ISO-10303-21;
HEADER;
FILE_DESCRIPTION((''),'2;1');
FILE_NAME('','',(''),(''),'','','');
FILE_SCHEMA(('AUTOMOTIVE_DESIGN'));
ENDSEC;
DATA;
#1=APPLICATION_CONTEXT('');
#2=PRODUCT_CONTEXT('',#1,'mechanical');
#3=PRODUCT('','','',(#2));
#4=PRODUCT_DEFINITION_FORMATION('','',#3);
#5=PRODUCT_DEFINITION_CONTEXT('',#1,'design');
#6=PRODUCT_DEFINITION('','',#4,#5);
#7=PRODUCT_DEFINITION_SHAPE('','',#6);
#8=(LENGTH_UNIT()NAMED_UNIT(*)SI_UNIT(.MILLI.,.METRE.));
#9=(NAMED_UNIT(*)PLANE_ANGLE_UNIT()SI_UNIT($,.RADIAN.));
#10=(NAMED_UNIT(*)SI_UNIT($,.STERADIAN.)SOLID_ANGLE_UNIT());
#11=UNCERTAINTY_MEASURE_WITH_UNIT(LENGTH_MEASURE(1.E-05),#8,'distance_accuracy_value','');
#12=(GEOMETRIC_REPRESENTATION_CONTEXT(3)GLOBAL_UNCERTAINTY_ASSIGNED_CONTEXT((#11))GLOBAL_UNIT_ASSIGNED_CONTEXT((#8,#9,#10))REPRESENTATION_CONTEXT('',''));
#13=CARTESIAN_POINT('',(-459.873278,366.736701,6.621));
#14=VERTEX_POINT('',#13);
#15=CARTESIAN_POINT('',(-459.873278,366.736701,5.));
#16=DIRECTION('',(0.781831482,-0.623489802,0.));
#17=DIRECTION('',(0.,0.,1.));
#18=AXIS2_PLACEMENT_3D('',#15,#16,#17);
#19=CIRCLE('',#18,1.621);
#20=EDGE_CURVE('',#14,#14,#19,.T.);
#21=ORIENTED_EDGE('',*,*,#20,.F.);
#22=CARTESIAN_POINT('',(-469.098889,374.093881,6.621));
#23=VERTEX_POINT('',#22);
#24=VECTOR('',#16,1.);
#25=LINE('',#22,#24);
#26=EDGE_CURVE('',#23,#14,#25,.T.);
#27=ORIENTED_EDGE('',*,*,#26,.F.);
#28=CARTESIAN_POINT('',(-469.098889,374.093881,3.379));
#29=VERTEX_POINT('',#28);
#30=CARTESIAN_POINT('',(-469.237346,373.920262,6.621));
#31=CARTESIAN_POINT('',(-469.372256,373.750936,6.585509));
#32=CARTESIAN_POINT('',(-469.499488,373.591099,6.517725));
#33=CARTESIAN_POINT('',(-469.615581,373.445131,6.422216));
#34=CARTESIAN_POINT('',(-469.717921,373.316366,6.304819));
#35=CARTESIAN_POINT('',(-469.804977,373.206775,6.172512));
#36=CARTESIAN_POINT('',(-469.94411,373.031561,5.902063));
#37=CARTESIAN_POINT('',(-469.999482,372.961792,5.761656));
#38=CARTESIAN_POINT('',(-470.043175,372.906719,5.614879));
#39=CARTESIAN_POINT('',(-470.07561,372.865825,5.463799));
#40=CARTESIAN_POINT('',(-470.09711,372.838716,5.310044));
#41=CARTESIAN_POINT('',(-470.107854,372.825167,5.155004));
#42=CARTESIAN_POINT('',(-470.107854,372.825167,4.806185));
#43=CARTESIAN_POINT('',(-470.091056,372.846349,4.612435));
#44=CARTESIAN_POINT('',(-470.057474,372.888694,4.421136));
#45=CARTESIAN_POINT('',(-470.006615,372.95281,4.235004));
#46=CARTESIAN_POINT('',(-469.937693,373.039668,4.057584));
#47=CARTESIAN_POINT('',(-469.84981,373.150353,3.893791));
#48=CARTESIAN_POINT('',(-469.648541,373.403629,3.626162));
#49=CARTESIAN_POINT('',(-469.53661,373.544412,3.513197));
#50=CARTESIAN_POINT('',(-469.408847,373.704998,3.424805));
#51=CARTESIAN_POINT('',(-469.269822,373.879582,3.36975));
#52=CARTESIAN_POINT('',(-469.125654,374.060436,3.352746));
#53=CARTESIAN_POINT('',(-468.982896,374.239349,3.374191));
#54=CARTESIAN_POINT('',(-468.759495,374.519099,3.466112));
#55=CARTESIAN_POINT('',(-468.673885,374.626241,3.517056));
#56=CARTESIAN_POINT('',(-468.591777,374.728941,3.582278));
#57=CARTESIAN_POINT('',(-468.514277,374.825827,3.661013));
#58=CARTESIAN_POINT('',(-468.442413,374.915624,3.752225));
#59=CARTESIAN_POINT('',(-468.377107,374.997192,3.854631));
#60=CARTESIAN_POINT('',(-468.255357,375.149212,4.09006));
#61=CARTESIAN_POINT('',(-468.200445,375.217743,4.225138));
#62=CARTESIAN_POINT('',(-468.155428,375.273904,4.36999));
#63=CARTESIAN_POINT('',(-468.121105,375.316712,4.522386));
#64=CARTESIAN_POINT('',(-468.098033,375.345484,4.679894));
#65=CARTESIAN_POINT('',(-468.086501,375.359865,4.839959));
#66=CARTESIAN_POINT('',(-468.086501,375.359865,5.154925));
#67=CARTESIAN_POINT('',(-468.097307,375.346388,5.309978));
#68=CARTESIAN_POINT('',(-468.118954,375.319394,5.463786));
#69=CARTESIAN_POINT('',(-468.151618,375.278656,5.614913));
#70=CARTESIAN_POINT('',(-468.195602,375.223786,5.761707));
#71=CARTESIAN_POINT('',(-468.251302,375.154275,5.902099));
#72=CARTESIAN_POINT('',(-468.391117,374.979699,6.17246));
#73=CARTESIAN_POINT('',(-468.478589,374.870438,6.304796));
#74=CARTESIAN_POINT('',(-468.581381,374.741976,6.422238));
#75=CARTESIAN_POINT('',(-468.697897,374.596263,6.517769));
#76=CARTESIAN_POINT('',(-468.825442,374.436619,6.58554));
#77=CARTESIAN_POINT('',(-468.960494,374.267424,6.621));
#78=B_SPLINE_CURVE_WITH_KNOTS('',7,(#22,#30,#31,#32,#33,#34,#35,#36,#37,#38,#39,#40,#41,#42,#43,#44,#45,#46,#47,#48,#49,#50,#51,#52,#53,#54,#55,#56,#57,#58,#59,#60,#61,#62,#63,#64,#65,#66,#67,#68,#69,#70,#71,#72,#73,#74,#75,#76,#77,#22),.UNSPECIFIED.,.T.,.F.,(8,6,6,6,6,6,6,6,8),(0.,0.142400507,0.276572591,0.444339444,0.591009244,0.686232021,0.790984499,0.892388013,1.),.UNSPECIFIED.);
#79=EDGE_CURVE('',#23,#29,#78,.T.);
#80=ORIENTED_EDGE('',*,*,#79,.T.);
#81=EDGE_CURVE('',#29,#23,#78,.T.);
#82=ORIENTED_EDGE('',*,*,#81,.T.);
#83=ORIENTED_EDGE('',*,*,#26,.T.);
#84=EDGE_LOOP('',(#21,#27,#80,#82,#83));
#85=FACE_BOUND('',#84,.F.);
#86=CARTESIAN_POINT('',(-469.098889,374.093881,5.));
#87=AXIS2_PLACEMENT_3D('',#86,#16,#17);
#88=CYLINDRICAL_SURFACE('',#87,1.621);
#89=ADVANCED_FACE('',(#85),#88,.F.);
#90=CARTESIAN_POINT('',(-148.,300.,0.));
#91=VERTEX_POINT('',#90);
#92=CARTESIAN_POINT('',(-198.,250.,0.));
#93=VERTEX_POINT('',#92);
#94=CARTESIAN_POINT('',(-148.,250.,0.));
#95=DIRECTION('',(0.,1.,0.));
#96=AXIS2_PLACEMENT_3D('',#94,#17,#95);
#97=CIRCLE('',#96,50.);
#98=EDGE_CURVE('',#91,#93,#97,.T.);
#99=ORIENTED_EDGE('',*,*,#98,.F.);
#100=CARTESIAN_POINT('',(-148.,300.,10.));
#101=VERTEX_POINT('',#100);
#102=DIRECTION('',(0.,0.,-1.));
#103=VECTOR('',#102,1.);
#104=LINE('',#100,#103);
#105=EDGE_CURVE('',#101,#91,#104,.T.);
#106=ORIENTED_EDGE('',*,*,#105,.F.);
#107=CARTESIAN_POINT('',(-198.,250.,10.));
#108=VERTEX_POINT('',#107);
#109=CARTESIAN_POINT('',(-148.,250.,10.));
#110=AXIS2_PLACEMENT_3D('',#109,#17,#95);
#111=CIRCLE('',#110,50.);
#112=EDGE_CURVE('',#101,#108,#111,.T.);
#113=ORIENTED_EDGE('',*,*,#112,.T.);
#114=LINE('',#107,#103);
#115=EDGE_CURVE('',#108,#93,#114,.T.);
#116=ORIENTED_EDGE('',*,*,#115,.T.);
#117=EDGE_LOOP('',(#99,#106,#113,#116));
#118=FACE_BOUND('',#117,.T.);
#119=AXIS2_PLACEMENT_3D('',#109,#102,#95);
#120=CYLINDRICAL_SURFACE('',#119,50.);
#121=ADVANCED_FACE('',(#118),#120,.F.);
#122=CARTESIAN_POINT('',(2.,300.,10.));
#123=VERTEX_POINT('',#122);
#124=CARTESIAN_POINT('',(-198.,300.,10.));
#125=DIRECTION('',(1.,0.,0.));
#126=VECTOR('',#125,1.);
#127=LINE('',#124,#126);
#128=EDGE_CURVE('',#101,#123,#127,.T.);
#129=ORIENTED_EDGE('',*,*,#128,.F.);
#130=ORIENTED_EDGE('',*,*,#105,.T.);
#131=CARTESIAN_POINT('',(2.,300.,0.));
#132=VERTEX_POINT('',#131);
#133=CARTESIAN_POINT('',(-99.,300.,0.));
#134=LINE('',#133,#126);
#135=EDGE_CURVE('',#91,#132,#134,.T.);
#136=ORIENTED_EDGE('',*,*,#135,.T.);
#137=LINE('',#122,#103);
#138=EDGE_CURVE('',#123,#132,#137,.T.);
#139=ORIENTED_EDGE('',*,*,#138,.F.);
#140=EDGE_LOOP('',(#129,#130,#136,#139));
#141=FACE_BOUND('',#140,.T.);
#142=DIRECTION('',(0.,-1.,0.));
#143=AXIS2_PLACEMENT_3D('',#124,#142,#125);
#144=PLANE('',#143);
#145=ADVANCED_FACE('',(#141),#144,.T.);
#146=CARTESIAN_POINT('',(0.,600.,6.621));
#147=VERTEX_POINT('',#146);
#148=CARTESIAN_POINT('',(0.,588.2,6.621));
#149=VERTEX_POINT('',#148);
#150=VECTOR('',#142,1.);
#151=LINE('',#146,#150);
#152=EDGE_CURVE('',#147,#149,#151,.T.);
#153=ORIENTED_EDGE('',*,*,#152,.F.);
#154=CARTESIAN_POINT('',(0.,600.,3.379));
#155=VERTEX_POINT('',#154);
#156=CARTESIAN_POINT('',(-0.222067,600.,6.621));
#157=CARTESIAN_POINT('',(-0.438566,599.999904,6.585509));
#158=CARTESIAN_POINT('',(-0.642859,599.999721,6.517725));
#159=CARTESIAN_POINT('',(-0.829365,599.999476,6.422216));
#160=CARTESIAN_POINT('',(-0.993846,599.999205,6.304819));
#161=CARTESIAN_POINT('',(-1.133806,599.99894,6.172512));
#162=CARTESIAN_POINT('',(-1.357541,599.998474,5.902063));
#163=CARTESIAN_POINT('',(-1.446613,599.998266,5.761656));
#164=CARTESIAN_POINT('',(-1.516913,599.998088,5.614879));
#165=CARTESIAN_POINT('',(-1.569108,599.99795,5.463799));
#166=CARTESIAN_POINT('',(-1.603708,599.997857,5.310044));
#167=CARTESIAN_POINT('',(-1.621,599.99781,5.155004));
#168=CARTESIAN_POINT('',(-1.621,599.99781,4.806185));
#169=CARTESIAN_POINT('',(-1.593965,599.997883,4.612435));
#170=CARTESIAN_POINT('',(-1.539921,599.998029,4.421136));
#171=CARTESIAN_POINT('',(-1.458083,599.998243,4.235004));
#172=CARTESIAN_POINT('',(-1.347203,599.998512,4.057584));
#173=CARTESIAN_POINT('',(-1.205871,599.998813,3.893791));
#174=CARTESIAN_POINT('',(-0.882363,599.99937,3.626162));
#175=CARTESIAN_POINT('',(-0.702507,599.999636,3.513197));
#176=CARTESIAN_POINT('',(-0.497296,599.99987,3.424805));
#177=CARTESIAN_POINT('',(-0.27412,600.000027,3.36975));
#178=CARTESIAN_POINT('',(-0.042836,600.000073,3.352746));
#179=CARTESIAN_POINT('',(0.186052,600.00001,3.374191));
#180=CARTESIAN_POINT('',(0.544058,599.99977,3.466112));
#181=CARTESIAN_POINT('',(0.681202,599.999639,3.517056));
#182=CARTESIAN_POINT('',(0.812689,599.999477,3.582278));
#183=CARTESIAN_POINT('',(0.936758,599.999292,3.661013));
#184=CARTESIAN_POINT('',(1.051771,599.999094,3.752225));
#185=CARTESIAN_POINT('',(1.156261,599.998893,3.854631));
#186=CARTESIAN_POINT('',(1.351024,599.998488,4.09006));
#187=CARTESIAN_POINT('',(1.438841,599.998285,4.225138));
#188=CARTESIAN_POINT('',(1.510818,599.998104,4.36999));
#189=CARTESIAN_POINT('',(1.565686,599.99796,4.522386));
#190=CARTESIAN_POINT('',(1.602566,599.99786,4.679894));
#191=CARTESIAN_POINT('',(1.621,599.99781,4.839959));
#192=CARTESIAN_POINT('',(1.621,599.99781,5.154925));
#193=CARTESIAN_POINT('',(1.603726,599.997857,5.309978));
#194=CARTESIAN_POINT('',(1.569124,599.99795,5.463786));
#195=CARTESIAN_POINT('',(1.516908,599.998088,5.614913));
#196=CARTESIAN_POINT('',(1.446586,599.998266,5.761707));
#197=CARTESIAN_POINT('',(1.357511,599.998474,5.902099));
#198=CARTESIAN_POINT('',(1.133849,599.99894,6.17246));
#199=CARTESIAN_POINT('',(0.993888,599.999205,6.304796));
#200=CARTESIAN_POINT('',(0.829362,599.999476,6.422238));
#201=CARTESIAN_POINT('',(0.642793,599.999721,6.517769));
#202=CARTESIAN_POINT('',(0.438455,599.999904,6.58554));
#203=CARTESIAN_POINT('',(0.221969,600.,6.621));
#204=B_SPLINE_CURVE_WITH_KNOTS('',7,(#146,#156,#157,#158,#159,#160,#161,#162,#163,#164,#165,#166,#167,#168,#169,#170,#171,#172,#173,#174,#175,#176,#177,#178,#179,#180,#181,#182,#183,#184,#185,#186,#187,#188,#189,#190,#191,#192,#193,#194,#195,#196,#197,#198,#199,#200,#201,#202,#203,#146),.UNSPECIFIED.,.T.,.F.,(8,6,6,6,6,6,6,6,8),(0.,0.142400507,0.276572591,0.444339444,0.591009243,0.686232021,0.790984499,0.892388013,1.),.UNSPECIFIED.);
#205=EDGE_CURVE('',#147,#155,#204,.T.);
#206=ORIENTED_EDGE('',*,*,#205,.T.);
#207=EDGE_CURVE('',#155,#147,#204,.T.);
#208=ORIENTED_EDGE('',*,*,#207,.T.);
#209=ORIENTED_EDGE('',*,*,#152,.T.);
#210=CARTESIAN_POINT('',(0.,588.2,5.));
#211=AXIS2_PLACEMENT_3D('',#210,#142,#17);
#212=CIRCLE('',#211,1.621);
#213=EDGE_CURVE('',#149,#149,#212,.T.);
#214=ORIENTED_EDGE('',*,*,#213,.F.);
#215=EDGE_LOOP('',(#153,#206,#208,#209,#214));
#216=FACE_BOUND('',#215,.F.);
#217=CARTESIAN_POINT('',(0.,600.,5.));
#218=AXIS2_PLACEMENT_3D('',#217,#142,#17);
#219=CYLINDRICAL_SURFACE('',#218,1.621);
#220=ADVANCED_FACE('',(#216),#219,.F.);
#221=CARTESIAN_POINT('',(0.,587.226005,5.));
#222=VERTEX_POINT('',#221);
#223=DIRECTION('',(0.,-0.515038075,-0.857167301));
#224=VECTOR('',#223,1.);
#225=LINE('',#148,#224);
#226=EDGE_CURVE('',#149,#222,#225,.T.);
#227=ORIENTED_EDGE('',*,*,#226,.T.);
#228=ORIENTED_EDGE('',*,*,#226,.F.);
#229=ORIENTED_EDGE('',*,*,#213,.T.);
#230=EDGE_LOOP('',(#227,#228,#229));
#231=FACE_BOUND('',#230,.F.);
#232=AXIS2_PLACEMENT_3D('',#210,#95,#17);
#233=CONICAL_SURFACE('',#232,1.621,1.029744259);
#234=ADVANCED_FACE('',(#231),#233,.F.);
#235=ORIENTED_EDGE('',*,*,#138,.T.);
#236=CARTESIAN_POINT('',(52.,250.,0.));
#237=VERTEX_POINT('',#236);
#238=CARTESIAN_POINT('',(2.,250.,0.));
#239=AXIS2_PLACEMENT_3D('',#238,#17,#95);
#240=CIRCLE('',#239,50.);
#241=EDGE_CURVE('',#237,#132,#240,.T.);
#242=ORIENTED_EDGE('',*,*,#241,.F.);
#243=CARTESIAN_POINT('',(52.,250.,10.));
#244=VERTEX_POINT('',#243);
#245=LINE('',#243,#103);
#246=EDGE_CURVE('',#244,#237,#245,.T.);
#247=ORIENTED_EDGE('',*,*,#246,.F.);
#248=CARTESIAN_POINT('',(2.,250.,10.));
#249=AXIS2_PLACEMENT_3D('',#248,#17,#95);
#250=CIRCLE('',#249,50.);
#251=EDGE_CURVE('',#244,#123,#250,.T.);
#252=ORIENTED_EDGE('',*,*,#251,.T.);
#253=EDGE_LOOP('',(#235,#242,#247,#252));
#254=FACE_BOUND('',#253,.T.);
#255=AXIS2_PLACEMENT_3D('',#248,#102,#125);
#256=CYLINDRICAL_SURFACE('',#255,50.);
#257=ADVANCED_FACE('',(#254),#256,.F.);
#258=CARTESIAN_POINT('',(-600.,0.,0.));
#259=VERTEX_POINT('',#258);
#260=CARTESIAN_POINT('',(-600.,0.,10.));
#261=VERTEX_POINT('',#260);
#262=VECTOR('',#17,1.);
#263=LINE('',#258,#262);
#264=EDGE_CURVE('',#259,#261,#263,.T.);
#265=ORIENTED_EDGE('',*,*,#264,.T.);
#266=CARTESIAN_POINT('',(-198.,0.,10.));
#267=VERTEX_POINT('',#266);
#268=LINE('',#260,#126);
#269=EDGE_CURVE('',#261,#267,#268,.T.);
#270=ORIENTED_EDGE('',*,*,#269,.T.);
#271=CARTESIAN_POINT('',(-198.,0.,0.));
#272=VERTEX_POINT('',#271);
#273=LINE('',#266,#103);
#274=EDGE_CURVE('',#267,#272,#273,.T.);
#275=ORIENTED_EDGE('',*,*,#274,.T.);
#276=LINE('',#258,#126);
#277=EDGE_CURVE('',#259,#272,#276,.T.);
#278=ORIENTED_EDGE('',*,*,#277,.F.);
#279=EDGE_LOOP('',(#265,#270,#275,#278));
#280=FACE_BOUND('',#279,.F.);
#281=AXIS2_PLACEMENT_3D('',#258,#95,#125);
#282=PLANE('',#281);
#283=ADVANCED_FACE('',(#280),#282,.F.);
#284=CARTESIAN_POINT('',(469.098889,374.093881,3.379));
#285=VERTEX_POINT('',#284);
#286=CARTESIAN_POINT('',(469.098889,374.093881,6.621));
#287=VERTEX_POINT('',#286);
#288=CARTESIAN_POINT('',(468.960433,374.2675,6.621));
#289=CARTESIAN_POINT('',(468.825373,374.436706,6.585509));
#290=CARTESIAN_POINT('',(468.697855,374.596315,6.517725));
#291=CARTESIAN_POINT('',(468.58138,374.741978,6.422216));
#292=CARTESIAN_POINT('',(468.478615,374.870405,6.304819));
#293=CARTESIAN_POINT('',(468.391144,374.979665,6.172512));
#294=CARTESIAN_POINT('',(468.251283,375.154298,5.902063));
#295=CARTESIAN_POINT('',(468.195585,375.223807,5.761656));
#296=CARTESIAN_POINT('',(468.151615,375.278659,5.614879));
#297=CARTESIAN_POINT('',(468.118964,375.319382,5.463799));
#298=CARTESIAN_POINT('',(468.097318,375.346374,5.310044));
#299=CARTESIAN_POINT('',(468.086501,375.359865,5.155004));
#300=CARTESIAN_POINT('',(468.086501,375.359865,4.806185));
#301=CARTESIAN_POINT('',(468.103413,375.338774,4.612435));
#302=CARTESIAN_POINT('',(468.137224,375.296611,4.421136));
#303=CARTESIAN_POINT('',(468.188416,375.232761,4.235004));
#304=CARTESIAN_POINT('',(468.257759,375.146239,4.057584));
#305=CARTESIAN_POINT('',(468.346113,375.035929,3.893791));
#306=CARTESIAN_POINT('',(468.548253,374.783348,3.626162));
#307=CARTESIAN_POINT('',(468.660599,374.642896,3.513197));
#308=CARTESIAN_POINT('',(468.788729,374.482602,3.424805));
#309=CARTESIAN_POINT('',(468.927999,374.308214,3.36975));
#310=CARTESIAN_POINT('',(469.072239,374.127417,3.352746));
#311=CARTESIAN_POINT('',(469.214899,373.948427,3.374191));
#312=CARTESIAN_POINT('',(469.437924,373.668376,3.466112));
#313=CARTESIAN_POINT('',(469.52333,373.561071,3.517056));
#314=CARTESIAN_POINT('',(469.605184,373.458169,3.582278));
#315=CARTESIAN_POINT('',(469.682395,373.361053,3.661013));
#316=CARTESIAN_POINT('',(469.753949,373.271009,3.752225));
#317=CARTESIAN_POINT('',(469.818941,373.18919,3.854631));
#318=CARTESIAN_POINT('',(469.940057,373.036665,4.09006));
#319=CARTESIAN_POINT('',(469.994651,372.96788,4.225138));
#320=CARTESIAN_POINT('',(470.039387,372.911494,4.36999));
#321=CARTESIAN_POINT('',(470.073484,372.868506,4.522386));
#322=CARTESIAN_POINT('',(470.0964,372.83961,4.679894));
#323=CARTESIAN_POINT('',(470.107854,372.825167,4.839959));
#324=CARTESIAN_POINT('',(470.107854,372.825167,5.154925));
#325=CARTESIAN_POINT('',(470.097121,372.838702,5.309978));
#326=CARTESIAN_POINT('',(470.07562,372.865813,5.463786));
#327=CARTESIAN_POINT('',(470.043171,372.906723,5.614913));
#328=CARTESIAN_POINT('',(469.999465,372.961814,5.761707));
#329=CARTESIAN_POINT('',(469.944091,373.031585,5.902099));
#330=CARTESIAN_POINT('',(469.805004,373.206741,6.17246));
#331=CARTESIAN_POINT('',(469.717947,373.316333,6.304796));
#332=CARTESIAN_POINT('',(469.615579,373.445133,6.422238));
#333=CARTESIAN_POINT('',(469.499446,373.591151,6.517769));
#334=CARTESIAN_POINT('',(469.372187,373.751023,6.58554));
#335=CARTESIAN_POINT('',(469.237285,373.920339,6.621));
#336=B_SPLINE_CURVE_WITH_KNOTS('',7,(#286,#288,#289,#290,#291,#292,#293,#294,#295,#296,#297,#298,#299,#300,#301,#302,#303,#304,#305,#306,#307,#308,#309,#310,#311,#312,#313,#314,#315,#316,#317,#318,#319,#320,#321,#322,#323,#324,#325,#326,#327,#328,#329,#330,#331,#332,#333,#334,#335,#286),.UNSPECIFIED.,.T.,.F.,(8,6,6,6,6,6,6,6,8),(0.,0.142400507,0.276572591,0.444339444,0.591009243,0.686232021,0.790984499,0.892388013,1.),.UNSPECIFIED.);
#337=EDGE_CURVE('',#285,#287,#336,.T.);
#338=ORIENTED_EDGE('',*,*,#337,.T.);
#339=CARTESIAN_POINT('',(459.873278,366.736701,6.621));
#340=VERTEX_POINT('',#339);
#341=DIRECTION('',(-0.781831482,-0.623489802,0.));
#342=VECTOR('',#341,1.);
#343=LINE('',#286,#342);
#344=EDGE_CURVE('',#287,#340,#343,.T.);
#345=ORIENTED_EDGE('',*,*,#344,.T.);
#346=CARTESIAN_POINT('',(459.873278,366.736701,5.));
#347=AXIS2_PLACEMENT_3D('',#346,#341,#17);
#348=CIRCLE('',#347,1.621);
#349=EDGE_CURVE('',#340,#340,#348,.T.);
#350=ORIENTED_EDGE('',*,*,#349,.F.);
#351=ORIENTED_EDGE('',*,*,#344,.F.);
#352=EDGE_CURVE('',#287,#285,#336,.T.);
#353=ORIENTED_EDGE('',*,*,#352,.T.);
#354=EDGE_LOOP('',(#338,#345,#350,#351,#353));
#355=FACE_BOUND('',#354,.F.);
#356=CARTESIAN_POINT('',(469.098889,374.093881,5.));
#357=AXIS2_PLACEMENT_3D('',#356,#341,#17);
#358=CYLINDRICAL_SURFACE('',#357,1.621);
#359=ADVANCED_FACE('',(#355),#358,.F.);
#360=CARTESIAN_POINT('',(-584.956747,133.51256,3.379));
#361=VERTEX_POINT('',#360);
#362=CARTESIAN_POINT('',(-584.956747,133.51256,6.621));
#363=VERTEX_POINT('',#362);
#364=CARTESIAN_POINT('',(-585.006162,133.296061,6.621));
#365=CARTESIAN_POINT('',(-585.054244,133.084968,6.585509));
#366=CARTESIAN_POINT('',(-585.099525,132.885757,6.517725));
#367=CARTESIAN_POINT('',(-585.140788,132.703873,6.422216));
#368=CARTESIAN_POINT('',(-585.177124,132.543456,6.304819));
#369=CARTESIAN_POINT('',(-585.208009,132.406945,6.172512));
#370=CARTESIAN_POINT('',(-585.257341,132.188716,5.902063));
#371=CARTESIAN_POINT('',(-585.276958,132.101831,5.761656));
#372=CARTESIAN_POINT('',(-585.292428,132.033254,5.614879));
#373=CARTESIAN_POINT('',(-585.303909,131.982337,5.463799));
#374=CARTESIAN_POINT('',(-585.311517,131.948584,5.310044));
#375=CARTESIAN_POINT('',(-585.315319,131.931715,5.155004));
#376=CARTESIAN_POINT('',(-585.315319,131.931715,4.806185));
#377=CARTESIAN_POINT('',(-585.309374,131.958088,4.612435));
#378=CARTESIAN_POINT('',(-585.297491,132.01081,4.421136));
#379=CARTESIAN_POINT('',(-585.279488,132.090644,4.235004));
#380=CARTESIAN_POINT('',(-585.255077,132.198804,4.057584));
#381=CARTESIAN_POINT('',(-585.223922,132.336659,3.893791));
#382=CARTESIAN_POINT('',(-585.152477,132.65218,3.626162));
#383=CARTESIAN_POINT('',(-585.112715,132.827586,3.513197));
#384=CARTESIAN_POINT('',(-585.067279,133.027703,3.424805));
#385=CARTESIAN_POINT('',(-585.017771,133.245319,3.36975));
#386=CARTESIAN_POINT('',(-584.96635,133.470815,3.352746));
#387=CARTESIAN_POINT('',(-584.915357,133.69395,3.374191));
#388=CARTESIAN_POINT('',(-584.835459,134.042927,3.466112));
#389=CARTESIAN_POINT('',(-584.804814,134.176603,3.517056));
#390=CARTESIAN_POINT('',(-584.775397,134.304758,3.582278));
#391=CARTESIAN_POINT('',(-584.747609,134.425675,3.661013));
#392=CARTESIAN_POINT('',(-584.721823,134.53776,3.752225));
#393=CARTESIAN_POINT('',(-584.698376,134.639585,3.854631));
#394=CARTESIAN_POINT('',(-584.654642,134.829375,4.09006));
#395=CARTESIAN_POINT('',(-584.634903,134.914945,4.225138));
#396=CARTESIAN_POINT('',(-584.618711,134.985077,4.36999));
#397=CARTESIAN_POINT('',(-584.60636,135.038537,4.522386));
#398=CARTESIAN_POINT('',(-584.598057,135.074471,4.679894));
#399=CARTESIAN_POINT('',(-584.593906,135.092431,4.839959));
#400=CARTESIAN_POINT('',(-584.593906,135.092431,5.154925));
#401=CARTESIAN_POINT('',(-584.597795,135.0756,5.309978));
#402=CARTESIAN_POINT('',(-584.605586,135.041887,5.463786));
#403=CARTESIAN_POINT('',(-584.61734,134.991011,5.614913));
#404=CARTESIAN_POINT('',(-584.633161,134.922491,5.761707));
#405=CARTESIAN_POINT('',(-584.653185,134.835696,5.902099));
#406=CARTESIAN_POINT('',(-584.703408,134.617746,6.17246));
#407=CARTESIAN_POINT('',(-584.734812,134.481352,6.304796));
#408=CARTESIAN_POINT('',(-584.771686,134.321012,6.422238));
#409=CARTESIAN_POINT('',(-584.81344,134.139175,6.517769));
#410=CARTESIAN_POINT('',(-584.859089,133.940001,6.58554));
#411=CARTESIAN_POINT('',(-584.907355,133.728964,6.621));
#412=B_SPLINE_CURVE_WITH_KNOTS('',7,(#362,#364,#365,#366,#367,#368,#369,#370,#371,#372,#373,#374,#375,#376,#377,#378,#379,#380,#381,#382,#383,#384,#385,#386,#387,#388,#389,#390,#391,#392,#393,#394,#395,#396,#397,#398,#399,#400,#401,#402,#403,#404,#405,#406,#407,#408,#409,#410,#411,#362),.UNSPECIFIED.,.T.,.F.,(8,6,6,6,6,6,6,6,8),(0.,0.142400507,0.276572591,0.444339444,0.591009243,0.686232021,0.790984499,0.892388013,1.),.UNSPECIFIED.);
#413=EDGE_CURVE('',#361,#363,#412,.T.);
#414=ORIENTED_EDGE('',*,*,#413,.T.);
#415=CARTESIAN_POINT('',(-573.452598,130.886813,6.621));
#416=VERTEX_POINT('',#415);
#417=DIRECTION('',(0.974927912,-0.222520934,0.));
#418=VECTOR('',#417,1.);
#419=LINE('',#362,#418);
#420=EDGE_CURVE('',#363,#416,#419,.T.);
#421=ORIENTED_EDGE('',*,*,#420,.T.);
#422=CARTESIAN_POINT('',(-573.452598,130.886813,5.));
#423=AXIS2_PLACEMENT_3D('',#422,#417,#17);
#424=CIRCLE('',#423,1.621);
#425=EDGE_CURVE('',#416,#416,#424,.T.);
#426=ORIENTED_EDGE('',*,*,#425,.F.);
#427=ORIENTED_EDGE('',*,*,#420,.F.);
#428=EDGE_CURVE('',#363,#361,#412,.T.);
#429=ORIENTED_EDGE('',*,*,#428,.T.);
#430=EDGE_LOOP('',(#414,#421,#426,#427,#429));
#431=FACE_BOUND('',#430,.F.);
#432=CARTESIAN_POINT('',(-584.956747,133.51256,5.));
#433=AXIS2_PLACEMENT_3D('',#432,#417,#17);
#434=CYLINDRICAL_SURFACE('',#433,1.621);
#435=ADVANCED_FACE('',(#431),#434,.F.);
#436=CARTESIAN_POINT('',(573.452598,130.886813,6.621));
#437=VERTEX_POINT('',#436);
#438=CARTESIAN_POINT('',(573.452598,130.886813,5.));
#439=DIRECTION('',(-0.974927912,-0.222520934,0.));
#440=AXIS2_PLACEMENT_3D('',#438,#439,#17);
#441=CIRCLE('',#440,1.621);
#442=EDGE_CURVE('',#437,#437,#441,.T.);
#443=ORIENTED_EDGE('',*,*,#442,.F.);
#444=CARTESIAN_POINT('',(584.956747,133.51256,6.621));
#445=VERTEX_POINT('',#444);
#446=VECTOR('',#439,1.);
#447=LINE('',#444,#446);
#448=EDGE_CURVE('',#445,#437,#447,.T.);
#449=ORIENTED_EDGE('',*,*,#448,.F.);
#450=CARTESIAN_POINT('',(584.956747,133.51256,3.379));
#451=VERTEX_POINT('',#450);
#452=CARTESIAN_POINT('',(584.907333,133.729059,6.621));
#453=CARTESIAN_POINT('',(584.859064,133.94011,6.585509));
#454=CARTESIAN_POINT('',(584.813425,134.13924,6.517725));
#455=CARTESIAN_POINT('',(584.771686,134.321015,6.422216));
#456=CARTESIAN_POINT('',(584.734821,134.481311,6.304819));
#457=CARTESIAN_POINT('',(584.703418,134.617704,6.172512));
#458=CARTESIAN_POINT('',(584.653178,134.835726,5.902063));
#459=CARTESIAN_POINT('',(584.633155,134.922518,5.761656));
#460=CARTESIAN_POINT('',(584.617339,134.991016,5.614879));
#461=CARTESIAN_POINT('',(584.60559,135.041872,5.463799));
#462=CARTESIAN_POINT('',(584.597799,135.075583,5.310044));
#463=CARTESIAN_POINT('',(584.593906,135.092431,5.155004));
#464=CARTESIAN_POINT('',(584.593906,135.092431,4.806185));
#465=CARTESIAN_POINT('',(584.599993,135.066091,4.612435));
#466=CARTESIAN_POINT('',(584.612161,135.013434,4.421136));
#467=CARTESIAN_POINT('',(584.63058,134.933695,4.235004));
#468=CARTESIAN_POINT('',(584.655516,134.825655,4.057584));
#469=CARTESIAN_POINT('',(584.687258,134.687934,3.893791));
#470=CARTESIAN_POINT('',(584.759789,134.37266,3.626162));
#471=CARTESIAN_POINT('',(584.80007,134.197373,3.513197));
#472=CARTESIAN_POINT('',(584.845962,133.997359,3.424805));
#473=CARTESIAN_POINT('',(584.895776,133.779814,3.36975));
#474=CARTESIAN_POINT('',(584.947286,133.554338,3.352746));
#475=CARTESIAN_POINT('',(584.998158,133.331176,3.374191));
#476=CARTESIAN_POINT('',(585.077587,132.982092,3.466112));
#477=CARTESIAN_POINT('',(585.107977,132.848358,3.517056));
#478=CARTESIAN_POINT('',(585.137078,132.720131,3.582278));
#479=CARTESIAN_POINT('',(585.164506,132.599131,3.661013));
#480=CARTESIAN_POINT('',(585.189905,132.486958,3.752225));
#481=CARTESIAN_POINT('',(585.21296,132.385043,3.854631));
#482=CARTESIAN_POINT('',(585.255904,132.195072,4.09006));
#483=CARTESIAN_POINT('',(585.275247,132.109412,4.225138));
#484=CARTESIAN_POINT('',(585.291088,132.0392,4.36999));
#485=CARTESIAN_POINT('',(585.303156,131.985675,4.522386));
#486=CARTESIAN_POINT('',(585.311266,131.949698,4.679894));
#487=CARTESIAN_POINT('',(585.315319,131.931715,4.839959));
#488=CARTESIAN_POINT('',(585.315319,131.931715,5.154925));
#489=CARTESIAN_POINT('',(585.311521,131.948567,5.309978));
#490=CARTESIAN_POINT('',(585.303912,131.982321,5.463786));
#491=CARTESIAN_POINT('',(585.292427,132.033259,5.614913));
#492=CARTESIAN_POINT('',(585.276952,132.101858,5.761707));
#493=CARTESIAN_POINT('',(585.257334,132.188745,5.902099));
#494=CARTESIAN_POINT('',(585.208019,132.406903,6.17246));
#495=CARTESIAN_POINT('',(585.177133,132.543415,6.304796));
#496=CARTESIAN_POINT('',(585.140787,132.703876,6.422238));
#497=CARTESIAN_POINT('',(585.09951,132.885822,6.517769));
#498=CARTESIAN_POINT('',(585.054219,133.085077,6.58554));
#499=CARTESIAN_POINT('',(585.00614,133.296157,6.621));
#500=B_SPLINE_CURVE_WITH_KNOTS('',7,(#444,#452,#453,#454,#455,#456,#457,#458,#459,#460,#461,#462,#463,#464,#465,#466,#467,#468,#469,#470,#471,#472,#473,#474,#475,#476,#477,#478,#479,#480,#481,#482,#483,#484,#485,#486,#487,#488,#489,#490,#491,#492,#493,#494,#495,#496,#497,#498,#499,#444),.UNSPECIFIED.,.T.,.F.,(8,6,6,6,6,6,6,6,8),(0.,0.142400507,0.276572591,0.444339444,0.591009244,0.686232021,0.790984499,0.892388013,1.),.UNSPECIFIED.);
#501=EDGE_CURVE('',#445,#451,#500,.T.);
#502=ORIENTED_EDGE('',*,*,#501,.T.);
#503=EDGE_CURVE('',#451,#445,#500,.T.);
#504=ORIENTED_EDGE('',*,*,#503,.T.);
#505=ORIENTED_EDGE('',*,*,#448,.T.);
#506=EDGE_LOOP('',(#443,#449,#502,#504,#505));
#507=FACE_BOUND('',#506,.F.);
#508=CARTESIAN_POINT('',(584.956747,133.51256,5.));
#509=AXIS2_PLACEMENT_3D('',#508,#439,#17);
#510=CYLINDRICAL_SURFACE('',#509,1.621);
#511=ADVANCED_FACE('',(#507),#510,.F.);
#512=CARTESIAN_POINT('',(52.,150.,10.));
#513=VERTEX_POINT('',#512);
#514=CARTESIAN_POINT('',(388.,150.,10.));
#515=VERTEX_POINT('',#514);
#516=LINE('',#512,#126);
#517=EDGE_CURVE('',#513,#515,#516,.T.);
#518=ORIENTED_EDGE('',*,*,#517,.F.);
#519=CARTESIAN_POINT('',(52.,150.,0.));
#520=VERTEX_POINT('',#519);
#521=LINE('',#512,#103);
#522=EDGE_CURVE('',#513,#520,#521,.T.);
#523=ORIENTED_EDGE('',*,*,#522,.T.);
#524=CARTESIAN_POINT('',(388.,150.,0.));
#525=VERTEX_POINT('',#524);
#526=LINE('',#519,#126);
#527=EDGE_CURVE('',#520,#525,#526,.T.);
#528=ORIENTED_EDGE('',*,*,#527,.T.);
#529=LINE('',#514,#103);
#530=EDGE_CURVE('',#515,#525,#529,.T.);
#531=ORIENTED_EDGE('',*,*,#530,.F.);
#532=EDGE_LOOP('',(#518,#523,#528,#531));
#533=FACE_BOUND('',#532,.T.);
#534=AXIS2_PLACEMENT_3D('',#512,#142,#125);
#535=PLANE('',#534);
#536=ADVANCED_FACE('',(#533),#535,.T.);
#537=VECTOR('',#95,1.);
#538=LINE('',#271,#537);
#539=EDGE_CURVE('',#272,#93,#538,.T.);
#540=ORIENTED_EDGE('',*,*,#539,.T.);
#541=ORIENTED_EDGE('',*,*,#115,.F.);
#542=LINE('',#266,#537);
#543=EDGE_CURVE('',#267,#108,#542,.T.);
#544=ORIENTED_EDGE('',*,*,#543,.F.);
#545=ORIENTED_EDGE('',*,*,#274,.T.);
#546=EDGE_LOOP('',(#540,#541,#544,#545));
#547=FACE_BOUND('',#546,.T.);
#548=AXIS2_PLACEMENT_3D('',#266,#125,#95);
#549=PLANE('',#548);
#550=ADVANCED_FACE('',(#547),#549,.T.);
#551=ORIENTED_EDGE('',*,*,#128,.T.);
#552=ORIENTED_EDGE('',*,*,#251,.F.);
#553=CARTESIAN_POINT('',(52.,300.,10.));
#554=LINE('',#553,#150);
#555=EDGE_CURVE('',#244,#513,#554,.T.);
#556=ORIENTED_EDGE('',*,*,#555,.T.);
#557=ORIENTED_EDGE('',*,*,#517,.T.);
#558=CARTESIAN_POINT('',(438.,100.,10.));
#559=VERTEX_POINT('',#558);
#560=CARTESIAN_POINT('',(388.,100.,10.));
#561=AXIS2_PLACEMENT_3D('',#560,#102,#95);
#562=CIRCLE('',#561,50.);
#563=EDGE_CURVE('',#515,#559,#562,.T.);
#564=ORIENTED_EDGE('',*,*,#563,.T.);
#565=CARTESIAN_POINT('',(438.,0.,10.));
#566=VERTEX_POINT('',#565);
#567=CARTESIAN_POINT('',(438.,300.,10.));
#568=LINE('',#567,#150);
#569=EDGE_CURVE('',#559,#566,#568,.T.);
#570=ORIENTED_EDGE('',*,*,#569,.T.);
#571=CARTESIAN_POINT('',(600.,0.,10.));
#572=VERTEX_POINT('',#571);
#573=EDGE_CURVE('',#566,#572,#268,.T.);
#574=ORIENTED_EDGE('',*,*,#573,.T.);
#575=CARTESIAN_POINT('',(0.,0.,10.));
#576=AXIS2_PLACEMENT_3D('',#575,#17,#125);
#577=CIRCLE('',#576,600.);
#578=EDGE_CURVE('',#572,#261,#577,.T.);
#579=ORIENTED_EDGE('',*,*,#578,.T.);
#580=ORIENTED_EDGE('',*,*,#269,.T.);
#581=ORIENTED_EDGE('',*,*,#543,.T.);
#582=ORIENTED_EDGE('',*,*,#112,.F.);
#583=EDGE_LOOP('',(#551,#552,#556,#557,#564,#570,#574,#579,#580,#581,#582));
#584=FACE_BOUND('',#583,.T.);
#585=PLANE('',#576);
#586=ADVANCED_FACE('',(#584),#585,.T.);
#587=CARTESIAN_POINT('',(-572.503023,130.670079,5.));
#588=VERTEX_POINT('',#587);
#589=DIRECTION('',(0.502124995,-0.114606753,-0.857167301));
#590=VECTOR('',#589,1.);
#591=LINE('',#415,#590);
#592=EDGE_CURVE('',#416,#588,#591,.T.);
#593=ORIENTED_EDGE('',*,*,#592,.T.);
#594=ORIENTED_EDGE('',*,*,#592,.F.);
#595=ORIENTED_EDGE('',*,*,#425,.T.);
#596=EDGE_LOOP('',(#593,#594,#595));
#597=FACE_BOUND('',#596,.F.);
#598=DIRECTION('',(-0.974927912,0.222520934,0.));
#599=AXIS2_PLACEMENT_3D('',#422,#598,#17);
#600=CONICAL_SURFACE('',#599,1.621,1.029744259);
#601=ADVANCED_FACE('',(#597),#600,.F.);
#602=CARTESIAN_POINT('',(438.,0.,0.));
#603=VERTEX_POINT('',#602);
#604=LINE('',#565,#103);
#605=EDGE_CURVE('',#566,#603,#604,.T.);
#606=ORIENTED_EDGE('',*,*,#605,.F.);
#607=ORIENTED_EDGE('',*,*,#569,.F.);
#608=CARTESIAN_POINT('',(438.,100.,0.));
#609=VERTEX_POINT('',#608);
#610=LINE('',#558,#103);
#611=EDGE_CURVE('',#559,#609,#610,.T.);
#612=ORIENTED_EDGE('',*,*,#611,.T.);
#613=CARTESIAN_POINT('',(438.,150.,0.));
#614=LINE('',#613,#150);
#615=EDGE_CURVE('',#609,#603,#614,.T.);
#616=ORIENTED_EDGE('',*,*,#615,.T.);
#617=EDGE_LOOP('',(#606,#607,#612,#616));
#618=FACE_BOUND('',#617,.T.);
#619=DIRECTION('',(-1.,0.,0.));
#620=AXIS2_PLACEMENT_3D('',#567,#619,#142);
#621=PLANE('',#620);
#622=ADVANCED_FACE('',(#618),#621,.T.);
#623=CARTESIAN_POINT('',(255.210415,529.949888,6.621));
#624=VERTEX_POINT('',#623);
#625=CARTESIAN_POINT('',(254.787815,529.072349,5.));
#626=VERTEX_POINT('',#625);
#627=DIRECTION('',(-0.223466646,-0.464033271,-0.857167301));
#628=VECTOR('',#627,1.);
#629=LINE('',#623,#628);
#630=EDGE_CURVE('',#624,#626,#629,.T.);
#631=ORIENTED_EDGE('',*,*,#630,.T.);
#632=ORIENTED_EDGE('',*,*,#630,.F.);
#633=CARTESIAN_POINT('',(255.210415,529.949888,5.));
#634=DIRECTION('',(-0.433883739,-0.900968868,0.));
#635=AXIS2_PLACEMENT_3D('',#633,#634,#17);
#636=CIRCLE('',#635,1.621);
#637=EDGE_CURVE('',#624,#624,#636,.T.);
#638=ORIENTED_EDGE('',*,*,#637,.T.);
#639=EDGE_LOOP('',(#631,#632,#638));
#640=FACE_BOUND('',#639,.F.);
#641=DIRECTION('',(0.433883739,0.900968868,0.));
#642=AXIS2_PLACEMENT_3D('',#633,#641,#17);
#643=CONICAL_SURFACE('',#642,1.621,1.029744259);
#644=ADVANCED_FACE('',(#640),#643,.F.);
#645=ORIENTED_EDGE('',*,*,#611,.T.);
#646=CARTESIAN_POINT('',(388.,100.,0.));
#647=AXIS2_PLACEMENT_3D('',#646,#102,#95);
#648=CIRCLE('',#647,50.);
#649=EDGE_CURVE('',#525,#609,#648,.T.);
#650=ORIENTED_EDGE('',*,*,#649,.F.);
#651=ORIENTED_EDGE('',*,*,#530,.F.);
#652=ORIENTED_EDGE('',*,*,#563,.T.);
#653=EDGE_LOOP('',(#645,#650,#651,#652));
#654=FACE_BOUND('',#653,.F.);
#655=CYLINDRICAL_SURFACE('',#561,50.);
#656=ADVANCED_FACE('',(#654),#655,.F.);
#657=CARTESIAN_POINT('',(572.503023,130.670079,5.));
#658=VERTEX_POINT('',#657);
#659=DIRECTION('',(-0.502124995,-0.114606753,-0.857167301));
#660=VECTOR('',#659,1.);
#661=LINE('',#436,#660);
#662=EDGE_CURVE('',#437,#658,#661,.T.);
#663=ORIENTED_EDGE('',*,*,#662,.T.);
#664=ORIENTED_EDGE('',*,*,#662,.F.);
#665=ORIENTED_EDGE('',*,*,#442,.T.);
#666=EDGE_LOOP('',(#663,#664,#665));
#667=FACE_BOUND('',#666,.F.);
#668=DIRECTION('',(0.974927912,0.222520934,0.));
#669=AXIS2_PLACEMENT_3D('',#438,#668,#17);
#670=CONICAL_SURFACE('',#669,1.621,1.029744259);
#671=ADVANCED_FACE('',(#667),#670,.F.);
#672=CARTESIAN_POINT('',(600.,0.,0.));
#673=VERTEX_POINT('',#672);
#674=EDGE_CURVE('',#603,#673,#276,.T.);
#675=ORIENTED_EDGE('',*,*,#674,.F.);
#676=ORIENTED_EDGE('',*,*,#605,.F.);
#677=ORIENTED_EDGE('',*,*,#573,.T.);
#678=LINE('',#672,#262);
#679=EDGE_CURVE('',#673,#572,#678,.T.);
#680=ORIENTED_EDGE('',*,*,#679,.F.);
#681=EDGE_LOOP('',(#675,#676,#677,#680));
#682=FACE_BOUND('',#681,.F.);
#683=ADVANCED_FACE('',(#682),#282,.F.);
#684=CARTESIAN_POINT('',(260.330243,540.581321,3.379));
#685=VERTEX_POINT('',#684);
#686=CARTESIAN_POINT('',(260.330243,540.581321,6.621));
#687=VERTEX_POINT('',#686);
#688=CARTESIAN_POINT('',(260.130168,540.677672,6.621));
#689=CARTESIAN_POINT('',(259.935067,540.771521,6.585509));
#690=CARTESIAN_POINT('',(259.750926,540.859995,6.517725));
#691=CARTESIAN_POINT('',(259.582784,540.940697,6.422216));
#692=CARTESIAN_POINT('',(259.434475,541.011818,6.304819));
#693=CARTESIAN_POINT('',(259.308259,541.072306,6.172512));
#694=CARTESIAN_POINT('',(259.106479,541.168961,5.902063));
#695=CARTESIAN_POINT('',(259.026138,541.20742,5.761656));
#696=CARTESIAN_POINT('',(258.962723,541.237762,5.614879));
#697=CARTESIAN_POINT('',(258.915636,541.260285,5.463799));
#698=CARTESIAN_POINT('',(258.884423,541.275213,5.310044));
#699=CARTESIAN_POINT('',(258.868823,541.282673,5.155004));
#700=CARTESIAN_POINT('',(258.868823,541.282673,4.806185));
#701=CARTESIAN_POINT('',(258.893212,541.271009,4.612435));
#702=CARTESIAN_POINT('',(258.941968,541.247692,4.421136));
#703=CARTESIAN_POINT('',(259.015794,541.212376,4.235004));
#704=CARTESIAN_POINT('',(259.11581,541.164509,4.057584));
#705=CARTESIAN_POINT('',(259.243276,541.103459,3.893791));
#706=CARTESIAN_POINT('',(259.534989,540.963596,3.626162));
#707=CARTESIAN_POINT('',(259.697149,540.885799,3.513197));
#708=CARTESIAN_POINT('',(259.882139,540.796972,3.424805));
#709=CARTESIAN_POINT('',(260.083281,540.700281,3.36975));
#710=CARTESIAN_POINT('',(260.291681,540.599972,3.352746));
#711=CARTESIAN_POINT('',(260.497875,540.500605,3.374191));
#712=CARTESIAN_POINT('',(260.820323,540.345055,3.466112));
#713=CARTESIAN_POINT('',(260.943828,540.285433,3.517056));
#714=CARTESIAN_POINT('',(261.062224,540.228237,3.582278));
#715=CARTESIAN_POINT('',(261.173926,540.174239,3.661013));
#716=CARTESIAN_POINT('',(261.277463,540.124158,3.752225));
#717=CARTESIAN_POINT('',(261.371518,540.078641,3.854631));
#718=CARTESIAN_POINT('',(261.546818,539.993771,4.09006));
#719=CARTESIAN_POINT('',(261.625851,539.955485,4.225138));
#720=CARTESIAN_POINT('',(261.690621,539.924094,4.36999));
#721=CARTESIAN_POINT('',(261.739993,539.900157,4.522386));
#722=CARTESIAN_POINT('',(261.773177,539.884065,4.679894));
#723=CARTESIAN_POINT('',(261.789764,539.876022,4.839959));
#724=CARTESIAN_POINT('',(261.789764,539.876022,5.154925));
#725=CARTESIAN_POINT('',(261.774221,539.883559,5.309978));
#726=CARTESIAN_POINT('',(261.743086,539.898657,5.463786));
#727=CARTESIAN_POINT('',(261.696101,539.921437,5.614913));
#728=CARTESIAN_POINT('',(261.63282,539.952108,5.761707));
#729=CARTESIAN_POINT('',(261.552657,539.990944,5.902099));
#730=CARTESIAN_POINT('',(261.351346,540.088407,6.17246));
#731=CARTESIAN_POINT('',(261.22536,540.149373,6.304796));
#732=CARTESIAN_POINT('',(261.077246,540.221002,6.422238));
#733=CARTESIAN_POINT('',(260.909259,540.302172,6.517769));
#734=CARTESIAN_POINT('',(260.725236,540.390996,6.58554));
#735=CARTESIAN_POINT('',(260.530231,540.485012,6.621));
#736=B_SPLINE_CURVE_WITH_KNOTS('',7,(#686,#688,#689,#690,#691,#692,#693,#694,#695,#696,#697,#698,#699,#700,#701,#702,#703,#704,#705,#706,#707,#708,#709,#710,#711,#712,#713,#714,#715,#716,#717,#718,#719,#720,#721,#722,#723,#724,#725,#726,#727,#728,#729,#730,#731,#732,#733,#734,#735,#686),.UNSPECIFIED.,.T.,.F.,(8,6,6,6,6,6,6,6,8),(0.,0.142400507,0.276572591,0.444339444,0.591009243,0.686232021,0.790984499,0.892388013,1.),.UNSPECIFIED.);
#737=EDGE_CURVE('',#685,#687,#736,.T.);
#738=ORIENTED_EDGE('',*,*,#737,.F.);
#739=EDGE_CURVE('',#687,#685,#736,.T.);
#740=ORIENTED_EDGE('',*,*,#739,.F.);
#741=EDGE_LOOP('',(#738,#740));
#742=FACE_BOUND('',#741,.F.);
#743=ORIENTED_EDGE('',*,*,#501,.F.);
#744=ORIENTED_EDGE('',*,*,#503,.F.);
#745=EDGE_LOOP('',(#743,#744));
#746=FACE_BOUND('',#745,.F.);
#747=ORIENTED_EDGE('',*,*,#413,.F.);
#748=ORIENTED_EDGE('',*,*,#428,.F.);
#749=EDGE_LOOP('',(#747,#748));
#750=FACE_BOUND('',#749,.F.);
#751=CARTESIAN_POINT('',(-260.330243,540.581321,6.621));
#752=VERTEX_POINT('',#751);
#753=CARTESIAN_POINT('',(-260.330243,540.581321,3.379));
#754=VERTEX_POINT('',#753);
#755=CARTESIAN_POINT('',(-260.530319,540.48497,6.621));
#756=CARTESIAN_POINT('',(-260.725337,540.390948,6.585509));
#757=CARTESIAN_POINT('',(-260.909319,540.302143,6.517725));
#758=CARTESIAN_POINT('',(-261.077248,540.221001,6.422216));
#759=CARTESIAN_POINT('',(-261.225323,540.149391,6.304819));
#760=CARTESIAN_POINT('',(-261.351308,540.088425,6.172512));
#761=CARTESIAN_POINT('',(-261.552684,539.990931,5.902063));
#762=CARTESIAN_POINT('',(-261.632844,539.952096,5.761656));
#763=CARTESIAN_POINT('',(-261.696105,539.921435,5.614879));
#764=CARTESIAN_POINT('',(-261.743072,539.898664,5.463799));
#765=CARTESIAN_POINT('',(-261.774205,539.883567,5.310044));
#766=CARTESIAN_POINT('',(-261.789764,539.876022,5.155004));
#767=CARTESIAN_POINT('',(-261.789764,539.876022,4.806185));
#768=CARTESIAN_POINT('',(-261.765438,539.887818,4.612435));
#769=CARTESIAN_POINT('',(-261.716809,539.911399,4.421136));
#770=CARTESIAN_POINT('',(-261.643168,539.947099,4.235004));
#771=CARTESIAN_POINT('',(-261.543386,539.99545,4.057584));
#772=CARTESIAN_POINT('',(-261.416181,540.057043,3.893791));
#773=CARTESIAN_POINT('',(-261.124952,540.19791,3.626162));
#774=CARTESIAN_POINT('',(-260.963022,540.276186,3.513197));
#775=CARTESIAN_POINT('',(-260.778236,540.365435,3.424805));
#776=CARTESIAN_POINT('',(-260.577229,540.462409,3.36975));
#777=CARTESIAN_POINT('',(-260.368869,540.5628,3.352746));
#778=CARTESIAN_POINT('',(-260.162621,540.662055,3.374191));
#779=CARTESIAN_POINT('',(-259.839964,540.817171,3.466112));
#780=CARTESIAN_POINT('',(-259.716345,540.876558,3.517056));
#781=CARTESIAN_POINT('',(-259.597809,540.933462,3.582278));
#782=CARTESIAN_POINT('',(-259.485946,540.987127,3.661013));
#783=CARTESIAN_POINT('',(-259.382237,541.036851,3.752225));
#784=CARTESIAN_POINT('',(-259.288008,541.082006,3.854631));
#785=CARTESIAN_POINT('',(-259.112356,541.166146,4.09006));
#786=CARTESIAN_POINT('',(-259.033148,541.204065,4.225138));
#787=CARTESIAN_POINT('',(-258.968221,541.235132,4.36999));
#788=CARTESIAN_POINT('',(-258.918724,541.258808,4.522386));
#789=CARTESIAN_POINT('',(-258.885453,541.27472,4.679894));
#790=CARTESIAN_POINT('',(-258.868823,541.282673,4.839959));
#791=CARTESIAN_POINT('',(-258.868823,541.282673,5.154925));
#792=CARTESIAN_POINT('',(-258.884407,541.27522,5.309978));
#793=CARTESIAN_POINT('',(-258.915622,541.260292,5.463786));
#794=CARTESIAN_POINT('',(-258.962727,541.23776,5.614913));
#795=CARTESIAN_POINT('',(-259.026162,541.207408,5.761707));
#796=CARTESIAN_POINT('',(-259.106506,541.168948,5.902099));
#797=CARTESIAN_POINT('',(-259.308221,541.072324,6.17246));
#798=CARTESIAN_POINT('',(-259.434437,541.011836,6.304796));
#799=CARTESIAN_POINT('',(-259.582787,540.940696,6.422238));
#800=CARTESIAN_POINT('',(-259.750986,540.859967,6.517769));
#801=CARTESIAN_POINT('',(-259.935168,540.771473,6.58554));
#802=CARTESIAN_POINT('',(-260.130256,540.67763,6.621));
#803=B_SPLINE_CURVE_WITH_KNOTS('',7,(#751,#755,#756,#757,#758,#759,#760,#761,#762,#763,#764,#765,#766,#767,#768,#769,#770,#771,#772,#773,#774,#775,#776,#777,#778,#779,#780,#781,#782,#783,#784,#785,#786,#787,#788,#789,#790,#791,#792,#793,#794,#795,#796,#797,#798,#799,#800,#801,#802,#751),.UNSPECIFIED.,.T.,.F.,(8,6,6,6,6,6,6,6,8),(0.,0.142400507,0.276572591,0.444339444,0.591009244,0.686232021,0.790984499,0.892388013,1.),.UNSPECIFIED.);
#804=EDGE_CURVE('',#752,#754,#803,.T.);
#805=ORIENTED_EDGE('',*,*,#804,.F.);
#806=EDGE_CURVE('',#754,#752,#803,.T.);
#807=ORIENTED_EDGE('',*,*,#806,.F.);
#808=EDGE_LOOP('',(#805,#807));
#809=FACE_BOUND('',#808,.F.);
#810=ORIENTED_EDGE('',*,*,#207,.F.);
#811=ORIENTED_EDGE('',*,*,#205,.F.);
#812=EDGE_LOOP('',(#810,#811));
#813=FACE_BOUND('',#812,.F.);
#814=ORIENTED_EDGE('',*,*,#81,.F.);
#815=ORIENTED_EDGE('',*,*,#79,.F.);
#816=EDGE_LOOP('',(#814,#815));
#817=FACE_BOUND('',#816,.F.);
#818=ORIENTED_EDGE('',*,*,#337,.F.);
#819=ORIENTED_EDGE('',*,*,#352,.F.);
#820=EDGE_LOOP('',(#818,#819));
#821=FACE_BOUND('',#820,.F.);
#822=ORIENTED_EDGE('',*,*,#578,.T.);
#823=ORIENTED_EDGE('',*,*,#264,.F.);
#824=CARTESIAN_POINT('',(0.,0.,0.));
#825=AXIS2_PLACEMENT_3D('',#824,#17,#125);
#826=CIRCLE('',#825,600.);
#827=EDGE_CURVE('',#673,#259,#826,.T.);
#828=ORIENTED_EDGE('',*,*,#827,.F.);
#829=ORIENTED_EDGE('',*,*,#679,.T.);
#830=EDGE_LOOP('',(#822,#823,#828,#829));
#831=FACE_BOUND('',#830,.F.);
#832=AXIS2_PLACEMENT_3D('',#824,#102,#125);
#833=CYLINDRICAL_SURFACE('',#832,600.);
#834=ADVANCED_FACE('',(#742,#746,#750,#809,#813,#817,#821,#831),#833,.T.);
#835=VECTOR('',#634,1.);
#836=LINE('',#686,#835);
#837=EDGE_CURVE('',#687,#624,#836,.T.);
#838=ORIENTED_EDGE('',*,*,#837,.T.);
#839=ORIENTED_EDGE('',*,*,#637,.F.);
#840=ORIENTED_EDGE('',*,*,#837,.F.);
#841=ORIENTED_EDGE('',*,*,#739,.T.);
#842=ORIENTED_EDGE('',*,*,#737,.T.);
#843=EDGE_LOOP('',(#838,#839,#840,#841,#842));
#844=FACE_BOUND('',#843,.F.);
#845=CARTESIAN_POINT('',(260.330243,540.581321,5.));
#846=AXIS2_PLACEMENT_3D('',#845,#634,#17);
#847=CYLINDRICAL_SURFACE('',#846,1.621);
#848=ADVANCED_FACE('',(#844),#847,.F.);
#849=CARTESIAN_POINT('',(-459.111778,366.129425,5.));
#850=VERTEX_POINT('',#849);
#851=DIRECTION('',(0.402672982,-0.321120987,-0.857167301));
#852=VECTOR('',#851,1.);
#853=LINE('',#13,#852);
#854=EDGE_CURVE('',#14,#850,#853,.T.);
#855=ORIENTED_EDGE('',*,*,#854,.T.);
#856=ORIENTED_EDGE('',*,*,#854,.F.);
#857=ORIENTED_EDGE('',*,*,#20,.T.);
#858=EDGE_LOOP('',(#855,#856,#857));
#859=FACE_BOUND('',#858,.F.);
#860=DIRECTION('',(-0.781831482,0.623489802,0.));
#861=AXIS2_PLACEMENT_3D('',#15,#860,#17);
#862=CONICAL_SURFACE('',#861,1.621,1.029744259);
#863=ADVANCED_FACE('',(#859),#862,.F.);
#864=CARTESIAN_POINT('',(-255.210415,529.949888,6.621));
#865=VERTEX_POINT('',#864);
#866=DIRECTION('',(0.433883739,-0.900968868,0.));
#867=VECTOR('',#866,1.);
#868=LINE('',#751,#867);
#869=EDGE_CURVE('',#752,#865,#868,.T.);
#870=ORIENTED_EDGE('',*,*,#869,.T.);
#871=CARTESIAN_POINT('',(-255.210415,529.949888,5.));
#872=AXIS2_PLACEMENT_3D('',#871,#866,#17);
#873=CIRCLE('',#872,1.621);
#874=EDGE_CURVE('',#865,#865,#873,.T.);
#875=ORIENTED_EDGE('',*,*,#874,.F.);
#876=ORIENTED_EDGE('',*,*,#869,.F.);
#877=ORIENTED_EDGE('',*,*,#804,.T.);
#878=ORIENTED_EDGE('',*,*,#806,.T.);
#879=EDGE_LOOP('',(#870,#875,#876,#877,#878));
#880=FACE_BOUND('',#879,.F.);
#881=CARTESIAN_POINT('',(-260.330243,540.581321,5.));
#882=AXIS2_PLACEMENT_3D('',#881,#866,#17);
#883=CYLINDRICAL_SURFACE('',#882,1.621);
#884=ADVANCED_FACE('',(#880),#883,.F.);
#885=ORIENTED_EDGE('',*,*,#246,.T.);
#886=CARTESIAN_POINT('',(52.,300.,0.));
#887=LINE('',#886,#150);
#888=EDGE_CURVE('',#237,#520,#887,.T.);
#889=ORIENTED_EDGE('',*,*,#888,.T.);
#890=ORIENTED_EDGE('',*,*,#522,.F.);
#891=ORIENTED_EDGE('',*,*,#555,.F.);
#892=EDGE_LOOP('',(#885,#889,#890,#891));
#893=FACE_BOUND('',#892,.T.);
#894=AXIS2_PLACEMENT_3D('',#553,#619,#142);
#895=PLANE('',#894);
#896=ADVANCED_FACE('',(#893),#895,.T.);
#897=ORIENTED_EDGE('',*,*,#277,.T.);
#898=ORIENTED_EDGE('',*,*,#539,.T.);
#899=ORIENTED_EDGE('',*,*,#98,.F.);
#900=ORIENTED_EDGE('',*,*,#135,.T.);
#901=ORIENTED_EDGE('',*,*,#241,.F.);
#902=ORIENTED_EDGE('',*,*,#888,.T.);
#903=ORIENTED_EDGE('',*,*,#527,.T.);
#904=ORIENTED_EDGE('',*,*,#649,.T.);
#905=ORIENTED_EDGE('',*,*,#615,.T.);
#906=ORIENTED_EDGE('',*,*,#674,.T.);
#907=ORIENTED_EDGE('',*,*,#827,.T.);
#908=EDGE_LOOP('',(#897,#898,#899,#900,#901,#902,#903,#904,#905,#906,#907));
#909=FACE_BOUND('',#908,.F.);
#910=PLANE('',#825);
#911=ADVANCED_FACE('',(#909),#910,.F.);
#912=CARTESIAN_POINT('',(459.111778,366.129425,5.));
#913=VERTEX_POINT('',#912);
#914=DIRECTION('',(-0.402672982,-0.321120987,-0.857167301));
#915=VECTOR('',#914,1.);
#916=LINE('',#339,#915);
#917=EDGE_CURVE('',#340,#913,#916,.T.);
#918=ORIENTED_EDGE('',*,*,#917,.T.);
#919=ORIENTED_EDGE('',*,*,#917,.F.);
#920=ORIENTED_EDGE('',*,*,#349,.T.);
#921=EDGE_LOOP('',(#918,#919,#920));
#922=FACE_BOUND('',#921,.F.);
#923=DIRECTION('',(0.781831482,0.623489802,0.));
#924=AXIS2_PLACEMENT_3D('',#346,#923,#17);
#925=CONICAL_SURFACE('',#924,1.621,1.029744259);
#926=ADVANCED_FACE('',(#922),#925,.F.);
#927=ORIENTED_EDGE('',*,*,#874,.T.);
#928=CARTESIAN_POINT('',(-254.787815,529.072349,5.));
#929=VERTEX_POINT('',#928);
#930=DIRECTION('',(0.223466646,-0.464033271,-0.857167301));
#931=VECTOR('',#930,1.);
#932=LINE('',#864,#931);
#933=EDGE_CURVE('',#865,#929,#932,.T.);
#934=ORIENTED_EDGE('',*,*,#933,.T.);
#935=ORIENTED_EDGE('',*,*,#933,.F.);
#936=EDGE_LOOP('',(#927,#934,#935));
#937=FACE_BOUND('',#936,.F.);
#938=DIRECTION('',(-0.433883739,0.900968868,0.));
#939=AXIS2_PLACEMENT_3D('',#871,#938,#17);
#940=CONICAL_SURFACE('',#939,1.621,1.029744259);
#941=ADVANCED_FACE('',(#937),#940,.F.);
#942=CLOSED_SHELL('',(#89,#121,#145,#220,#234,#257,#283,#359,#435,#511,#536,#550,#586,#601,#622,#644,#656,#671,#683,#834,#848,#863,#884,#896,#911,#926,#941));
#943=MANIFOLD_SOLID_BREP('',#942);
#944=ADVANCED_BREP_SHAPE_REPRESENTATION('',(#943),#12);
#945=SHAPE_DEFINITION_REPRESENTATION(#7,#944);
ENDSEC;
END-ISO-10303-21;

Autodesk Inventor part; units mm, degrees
ref_plane "YZ Plane" through (0, 0, 0) normal (1, 0, 0) x (0, 1, 0)
ref_plane "XZ Plane" through (0, 0, 0) normal (0, 1, 0) x (-1, 0, 0)
sketch "Sketch1" plane through (0, 0, 0) normal (0, 0, 1) x (1, 0, 0)
  arc A0 (600, 0) -> (-600, 0) centre (0, 0) ccw
  line L0 (-600, 0) -> (600, 0)
  point P0 (0, 0)
  dimension "d0" = 1200
extrude "Extrusion1" add sketch "Sketch1" along normal blind 10
sketch "Sketch2" plane through (0, 0, 10) normal (0, 0, 1) x (1, 0, 0)
  line L0 (-600, 0) -> (600, 0) projected
  line L1 (438, 0) -> (-198, 0)
  line L2 (-198, 0) -> (-198, 300)
  line L3 (-198, 300) -> (438, 300)
  line L4 (438, 300) -> (438, 0)
  point P0 (0, 0)
  dimension "d3" = 300
  dimension "d4" = 636
  dimension "d5" = 198
extrude "Extrusion2" cut sketch "Sketch2" against normal through all
sketch "Sketch3" plane through (0, 0, 10) normal (0, 0, 1) x (1, 0, 0)
  line L0 (-198, 300) -> (438, 300) projected
  line L1 (438, 300) -> (52, 300)
  line L2 (52, 300) -> (52, 150)
  line L3 (52, 150) -> (438, 150)
  line L4 (438, 150) -> (438, 300)
  line L5 (-198, 0) -> (-198, 300) projected
  point P0 (0, 0)
  dimension "d9" = 150
  dimension "d10" = 250
extrude "Extrusion3" add sketch "Sketch3" against normal up to surface (10 mm away)
fillet "Fillet2" radius 50 3 edges at (-198, 300, 5) (52, 300, 5) (438, 150, 5)
ref_plane "Work Plane1" through (-600, 600, 0) normal (0, -1, 0) x (1, 0, 0)
sketch "Sketch4" plane through (-600, 600, 0) normal (0, -1, 0) x (1, 0, 0)
  line L0 (1200, 10) -> (0, 10) projected
  line L1 (600, 12) -> (600, -2) projected
  point P0 (600, 0)
  point P1 (600, 5)
  dimension "d15" = 5
hole "Hole1" at (0, 600, 5) direction (0, -1, 0) diameter 3.242 depth 11.8 tip angle 118 thread size "M4x0.7" class "6H" standard "ANSI Metric M Profile"
pattern_circular "Circular Pattern1" count 14 over 360 about axis through (0, 0, -10) along (0, 0, 1) of "Hole1"
properties part number "Top_Guard 2" material "PMMA Plastic"
